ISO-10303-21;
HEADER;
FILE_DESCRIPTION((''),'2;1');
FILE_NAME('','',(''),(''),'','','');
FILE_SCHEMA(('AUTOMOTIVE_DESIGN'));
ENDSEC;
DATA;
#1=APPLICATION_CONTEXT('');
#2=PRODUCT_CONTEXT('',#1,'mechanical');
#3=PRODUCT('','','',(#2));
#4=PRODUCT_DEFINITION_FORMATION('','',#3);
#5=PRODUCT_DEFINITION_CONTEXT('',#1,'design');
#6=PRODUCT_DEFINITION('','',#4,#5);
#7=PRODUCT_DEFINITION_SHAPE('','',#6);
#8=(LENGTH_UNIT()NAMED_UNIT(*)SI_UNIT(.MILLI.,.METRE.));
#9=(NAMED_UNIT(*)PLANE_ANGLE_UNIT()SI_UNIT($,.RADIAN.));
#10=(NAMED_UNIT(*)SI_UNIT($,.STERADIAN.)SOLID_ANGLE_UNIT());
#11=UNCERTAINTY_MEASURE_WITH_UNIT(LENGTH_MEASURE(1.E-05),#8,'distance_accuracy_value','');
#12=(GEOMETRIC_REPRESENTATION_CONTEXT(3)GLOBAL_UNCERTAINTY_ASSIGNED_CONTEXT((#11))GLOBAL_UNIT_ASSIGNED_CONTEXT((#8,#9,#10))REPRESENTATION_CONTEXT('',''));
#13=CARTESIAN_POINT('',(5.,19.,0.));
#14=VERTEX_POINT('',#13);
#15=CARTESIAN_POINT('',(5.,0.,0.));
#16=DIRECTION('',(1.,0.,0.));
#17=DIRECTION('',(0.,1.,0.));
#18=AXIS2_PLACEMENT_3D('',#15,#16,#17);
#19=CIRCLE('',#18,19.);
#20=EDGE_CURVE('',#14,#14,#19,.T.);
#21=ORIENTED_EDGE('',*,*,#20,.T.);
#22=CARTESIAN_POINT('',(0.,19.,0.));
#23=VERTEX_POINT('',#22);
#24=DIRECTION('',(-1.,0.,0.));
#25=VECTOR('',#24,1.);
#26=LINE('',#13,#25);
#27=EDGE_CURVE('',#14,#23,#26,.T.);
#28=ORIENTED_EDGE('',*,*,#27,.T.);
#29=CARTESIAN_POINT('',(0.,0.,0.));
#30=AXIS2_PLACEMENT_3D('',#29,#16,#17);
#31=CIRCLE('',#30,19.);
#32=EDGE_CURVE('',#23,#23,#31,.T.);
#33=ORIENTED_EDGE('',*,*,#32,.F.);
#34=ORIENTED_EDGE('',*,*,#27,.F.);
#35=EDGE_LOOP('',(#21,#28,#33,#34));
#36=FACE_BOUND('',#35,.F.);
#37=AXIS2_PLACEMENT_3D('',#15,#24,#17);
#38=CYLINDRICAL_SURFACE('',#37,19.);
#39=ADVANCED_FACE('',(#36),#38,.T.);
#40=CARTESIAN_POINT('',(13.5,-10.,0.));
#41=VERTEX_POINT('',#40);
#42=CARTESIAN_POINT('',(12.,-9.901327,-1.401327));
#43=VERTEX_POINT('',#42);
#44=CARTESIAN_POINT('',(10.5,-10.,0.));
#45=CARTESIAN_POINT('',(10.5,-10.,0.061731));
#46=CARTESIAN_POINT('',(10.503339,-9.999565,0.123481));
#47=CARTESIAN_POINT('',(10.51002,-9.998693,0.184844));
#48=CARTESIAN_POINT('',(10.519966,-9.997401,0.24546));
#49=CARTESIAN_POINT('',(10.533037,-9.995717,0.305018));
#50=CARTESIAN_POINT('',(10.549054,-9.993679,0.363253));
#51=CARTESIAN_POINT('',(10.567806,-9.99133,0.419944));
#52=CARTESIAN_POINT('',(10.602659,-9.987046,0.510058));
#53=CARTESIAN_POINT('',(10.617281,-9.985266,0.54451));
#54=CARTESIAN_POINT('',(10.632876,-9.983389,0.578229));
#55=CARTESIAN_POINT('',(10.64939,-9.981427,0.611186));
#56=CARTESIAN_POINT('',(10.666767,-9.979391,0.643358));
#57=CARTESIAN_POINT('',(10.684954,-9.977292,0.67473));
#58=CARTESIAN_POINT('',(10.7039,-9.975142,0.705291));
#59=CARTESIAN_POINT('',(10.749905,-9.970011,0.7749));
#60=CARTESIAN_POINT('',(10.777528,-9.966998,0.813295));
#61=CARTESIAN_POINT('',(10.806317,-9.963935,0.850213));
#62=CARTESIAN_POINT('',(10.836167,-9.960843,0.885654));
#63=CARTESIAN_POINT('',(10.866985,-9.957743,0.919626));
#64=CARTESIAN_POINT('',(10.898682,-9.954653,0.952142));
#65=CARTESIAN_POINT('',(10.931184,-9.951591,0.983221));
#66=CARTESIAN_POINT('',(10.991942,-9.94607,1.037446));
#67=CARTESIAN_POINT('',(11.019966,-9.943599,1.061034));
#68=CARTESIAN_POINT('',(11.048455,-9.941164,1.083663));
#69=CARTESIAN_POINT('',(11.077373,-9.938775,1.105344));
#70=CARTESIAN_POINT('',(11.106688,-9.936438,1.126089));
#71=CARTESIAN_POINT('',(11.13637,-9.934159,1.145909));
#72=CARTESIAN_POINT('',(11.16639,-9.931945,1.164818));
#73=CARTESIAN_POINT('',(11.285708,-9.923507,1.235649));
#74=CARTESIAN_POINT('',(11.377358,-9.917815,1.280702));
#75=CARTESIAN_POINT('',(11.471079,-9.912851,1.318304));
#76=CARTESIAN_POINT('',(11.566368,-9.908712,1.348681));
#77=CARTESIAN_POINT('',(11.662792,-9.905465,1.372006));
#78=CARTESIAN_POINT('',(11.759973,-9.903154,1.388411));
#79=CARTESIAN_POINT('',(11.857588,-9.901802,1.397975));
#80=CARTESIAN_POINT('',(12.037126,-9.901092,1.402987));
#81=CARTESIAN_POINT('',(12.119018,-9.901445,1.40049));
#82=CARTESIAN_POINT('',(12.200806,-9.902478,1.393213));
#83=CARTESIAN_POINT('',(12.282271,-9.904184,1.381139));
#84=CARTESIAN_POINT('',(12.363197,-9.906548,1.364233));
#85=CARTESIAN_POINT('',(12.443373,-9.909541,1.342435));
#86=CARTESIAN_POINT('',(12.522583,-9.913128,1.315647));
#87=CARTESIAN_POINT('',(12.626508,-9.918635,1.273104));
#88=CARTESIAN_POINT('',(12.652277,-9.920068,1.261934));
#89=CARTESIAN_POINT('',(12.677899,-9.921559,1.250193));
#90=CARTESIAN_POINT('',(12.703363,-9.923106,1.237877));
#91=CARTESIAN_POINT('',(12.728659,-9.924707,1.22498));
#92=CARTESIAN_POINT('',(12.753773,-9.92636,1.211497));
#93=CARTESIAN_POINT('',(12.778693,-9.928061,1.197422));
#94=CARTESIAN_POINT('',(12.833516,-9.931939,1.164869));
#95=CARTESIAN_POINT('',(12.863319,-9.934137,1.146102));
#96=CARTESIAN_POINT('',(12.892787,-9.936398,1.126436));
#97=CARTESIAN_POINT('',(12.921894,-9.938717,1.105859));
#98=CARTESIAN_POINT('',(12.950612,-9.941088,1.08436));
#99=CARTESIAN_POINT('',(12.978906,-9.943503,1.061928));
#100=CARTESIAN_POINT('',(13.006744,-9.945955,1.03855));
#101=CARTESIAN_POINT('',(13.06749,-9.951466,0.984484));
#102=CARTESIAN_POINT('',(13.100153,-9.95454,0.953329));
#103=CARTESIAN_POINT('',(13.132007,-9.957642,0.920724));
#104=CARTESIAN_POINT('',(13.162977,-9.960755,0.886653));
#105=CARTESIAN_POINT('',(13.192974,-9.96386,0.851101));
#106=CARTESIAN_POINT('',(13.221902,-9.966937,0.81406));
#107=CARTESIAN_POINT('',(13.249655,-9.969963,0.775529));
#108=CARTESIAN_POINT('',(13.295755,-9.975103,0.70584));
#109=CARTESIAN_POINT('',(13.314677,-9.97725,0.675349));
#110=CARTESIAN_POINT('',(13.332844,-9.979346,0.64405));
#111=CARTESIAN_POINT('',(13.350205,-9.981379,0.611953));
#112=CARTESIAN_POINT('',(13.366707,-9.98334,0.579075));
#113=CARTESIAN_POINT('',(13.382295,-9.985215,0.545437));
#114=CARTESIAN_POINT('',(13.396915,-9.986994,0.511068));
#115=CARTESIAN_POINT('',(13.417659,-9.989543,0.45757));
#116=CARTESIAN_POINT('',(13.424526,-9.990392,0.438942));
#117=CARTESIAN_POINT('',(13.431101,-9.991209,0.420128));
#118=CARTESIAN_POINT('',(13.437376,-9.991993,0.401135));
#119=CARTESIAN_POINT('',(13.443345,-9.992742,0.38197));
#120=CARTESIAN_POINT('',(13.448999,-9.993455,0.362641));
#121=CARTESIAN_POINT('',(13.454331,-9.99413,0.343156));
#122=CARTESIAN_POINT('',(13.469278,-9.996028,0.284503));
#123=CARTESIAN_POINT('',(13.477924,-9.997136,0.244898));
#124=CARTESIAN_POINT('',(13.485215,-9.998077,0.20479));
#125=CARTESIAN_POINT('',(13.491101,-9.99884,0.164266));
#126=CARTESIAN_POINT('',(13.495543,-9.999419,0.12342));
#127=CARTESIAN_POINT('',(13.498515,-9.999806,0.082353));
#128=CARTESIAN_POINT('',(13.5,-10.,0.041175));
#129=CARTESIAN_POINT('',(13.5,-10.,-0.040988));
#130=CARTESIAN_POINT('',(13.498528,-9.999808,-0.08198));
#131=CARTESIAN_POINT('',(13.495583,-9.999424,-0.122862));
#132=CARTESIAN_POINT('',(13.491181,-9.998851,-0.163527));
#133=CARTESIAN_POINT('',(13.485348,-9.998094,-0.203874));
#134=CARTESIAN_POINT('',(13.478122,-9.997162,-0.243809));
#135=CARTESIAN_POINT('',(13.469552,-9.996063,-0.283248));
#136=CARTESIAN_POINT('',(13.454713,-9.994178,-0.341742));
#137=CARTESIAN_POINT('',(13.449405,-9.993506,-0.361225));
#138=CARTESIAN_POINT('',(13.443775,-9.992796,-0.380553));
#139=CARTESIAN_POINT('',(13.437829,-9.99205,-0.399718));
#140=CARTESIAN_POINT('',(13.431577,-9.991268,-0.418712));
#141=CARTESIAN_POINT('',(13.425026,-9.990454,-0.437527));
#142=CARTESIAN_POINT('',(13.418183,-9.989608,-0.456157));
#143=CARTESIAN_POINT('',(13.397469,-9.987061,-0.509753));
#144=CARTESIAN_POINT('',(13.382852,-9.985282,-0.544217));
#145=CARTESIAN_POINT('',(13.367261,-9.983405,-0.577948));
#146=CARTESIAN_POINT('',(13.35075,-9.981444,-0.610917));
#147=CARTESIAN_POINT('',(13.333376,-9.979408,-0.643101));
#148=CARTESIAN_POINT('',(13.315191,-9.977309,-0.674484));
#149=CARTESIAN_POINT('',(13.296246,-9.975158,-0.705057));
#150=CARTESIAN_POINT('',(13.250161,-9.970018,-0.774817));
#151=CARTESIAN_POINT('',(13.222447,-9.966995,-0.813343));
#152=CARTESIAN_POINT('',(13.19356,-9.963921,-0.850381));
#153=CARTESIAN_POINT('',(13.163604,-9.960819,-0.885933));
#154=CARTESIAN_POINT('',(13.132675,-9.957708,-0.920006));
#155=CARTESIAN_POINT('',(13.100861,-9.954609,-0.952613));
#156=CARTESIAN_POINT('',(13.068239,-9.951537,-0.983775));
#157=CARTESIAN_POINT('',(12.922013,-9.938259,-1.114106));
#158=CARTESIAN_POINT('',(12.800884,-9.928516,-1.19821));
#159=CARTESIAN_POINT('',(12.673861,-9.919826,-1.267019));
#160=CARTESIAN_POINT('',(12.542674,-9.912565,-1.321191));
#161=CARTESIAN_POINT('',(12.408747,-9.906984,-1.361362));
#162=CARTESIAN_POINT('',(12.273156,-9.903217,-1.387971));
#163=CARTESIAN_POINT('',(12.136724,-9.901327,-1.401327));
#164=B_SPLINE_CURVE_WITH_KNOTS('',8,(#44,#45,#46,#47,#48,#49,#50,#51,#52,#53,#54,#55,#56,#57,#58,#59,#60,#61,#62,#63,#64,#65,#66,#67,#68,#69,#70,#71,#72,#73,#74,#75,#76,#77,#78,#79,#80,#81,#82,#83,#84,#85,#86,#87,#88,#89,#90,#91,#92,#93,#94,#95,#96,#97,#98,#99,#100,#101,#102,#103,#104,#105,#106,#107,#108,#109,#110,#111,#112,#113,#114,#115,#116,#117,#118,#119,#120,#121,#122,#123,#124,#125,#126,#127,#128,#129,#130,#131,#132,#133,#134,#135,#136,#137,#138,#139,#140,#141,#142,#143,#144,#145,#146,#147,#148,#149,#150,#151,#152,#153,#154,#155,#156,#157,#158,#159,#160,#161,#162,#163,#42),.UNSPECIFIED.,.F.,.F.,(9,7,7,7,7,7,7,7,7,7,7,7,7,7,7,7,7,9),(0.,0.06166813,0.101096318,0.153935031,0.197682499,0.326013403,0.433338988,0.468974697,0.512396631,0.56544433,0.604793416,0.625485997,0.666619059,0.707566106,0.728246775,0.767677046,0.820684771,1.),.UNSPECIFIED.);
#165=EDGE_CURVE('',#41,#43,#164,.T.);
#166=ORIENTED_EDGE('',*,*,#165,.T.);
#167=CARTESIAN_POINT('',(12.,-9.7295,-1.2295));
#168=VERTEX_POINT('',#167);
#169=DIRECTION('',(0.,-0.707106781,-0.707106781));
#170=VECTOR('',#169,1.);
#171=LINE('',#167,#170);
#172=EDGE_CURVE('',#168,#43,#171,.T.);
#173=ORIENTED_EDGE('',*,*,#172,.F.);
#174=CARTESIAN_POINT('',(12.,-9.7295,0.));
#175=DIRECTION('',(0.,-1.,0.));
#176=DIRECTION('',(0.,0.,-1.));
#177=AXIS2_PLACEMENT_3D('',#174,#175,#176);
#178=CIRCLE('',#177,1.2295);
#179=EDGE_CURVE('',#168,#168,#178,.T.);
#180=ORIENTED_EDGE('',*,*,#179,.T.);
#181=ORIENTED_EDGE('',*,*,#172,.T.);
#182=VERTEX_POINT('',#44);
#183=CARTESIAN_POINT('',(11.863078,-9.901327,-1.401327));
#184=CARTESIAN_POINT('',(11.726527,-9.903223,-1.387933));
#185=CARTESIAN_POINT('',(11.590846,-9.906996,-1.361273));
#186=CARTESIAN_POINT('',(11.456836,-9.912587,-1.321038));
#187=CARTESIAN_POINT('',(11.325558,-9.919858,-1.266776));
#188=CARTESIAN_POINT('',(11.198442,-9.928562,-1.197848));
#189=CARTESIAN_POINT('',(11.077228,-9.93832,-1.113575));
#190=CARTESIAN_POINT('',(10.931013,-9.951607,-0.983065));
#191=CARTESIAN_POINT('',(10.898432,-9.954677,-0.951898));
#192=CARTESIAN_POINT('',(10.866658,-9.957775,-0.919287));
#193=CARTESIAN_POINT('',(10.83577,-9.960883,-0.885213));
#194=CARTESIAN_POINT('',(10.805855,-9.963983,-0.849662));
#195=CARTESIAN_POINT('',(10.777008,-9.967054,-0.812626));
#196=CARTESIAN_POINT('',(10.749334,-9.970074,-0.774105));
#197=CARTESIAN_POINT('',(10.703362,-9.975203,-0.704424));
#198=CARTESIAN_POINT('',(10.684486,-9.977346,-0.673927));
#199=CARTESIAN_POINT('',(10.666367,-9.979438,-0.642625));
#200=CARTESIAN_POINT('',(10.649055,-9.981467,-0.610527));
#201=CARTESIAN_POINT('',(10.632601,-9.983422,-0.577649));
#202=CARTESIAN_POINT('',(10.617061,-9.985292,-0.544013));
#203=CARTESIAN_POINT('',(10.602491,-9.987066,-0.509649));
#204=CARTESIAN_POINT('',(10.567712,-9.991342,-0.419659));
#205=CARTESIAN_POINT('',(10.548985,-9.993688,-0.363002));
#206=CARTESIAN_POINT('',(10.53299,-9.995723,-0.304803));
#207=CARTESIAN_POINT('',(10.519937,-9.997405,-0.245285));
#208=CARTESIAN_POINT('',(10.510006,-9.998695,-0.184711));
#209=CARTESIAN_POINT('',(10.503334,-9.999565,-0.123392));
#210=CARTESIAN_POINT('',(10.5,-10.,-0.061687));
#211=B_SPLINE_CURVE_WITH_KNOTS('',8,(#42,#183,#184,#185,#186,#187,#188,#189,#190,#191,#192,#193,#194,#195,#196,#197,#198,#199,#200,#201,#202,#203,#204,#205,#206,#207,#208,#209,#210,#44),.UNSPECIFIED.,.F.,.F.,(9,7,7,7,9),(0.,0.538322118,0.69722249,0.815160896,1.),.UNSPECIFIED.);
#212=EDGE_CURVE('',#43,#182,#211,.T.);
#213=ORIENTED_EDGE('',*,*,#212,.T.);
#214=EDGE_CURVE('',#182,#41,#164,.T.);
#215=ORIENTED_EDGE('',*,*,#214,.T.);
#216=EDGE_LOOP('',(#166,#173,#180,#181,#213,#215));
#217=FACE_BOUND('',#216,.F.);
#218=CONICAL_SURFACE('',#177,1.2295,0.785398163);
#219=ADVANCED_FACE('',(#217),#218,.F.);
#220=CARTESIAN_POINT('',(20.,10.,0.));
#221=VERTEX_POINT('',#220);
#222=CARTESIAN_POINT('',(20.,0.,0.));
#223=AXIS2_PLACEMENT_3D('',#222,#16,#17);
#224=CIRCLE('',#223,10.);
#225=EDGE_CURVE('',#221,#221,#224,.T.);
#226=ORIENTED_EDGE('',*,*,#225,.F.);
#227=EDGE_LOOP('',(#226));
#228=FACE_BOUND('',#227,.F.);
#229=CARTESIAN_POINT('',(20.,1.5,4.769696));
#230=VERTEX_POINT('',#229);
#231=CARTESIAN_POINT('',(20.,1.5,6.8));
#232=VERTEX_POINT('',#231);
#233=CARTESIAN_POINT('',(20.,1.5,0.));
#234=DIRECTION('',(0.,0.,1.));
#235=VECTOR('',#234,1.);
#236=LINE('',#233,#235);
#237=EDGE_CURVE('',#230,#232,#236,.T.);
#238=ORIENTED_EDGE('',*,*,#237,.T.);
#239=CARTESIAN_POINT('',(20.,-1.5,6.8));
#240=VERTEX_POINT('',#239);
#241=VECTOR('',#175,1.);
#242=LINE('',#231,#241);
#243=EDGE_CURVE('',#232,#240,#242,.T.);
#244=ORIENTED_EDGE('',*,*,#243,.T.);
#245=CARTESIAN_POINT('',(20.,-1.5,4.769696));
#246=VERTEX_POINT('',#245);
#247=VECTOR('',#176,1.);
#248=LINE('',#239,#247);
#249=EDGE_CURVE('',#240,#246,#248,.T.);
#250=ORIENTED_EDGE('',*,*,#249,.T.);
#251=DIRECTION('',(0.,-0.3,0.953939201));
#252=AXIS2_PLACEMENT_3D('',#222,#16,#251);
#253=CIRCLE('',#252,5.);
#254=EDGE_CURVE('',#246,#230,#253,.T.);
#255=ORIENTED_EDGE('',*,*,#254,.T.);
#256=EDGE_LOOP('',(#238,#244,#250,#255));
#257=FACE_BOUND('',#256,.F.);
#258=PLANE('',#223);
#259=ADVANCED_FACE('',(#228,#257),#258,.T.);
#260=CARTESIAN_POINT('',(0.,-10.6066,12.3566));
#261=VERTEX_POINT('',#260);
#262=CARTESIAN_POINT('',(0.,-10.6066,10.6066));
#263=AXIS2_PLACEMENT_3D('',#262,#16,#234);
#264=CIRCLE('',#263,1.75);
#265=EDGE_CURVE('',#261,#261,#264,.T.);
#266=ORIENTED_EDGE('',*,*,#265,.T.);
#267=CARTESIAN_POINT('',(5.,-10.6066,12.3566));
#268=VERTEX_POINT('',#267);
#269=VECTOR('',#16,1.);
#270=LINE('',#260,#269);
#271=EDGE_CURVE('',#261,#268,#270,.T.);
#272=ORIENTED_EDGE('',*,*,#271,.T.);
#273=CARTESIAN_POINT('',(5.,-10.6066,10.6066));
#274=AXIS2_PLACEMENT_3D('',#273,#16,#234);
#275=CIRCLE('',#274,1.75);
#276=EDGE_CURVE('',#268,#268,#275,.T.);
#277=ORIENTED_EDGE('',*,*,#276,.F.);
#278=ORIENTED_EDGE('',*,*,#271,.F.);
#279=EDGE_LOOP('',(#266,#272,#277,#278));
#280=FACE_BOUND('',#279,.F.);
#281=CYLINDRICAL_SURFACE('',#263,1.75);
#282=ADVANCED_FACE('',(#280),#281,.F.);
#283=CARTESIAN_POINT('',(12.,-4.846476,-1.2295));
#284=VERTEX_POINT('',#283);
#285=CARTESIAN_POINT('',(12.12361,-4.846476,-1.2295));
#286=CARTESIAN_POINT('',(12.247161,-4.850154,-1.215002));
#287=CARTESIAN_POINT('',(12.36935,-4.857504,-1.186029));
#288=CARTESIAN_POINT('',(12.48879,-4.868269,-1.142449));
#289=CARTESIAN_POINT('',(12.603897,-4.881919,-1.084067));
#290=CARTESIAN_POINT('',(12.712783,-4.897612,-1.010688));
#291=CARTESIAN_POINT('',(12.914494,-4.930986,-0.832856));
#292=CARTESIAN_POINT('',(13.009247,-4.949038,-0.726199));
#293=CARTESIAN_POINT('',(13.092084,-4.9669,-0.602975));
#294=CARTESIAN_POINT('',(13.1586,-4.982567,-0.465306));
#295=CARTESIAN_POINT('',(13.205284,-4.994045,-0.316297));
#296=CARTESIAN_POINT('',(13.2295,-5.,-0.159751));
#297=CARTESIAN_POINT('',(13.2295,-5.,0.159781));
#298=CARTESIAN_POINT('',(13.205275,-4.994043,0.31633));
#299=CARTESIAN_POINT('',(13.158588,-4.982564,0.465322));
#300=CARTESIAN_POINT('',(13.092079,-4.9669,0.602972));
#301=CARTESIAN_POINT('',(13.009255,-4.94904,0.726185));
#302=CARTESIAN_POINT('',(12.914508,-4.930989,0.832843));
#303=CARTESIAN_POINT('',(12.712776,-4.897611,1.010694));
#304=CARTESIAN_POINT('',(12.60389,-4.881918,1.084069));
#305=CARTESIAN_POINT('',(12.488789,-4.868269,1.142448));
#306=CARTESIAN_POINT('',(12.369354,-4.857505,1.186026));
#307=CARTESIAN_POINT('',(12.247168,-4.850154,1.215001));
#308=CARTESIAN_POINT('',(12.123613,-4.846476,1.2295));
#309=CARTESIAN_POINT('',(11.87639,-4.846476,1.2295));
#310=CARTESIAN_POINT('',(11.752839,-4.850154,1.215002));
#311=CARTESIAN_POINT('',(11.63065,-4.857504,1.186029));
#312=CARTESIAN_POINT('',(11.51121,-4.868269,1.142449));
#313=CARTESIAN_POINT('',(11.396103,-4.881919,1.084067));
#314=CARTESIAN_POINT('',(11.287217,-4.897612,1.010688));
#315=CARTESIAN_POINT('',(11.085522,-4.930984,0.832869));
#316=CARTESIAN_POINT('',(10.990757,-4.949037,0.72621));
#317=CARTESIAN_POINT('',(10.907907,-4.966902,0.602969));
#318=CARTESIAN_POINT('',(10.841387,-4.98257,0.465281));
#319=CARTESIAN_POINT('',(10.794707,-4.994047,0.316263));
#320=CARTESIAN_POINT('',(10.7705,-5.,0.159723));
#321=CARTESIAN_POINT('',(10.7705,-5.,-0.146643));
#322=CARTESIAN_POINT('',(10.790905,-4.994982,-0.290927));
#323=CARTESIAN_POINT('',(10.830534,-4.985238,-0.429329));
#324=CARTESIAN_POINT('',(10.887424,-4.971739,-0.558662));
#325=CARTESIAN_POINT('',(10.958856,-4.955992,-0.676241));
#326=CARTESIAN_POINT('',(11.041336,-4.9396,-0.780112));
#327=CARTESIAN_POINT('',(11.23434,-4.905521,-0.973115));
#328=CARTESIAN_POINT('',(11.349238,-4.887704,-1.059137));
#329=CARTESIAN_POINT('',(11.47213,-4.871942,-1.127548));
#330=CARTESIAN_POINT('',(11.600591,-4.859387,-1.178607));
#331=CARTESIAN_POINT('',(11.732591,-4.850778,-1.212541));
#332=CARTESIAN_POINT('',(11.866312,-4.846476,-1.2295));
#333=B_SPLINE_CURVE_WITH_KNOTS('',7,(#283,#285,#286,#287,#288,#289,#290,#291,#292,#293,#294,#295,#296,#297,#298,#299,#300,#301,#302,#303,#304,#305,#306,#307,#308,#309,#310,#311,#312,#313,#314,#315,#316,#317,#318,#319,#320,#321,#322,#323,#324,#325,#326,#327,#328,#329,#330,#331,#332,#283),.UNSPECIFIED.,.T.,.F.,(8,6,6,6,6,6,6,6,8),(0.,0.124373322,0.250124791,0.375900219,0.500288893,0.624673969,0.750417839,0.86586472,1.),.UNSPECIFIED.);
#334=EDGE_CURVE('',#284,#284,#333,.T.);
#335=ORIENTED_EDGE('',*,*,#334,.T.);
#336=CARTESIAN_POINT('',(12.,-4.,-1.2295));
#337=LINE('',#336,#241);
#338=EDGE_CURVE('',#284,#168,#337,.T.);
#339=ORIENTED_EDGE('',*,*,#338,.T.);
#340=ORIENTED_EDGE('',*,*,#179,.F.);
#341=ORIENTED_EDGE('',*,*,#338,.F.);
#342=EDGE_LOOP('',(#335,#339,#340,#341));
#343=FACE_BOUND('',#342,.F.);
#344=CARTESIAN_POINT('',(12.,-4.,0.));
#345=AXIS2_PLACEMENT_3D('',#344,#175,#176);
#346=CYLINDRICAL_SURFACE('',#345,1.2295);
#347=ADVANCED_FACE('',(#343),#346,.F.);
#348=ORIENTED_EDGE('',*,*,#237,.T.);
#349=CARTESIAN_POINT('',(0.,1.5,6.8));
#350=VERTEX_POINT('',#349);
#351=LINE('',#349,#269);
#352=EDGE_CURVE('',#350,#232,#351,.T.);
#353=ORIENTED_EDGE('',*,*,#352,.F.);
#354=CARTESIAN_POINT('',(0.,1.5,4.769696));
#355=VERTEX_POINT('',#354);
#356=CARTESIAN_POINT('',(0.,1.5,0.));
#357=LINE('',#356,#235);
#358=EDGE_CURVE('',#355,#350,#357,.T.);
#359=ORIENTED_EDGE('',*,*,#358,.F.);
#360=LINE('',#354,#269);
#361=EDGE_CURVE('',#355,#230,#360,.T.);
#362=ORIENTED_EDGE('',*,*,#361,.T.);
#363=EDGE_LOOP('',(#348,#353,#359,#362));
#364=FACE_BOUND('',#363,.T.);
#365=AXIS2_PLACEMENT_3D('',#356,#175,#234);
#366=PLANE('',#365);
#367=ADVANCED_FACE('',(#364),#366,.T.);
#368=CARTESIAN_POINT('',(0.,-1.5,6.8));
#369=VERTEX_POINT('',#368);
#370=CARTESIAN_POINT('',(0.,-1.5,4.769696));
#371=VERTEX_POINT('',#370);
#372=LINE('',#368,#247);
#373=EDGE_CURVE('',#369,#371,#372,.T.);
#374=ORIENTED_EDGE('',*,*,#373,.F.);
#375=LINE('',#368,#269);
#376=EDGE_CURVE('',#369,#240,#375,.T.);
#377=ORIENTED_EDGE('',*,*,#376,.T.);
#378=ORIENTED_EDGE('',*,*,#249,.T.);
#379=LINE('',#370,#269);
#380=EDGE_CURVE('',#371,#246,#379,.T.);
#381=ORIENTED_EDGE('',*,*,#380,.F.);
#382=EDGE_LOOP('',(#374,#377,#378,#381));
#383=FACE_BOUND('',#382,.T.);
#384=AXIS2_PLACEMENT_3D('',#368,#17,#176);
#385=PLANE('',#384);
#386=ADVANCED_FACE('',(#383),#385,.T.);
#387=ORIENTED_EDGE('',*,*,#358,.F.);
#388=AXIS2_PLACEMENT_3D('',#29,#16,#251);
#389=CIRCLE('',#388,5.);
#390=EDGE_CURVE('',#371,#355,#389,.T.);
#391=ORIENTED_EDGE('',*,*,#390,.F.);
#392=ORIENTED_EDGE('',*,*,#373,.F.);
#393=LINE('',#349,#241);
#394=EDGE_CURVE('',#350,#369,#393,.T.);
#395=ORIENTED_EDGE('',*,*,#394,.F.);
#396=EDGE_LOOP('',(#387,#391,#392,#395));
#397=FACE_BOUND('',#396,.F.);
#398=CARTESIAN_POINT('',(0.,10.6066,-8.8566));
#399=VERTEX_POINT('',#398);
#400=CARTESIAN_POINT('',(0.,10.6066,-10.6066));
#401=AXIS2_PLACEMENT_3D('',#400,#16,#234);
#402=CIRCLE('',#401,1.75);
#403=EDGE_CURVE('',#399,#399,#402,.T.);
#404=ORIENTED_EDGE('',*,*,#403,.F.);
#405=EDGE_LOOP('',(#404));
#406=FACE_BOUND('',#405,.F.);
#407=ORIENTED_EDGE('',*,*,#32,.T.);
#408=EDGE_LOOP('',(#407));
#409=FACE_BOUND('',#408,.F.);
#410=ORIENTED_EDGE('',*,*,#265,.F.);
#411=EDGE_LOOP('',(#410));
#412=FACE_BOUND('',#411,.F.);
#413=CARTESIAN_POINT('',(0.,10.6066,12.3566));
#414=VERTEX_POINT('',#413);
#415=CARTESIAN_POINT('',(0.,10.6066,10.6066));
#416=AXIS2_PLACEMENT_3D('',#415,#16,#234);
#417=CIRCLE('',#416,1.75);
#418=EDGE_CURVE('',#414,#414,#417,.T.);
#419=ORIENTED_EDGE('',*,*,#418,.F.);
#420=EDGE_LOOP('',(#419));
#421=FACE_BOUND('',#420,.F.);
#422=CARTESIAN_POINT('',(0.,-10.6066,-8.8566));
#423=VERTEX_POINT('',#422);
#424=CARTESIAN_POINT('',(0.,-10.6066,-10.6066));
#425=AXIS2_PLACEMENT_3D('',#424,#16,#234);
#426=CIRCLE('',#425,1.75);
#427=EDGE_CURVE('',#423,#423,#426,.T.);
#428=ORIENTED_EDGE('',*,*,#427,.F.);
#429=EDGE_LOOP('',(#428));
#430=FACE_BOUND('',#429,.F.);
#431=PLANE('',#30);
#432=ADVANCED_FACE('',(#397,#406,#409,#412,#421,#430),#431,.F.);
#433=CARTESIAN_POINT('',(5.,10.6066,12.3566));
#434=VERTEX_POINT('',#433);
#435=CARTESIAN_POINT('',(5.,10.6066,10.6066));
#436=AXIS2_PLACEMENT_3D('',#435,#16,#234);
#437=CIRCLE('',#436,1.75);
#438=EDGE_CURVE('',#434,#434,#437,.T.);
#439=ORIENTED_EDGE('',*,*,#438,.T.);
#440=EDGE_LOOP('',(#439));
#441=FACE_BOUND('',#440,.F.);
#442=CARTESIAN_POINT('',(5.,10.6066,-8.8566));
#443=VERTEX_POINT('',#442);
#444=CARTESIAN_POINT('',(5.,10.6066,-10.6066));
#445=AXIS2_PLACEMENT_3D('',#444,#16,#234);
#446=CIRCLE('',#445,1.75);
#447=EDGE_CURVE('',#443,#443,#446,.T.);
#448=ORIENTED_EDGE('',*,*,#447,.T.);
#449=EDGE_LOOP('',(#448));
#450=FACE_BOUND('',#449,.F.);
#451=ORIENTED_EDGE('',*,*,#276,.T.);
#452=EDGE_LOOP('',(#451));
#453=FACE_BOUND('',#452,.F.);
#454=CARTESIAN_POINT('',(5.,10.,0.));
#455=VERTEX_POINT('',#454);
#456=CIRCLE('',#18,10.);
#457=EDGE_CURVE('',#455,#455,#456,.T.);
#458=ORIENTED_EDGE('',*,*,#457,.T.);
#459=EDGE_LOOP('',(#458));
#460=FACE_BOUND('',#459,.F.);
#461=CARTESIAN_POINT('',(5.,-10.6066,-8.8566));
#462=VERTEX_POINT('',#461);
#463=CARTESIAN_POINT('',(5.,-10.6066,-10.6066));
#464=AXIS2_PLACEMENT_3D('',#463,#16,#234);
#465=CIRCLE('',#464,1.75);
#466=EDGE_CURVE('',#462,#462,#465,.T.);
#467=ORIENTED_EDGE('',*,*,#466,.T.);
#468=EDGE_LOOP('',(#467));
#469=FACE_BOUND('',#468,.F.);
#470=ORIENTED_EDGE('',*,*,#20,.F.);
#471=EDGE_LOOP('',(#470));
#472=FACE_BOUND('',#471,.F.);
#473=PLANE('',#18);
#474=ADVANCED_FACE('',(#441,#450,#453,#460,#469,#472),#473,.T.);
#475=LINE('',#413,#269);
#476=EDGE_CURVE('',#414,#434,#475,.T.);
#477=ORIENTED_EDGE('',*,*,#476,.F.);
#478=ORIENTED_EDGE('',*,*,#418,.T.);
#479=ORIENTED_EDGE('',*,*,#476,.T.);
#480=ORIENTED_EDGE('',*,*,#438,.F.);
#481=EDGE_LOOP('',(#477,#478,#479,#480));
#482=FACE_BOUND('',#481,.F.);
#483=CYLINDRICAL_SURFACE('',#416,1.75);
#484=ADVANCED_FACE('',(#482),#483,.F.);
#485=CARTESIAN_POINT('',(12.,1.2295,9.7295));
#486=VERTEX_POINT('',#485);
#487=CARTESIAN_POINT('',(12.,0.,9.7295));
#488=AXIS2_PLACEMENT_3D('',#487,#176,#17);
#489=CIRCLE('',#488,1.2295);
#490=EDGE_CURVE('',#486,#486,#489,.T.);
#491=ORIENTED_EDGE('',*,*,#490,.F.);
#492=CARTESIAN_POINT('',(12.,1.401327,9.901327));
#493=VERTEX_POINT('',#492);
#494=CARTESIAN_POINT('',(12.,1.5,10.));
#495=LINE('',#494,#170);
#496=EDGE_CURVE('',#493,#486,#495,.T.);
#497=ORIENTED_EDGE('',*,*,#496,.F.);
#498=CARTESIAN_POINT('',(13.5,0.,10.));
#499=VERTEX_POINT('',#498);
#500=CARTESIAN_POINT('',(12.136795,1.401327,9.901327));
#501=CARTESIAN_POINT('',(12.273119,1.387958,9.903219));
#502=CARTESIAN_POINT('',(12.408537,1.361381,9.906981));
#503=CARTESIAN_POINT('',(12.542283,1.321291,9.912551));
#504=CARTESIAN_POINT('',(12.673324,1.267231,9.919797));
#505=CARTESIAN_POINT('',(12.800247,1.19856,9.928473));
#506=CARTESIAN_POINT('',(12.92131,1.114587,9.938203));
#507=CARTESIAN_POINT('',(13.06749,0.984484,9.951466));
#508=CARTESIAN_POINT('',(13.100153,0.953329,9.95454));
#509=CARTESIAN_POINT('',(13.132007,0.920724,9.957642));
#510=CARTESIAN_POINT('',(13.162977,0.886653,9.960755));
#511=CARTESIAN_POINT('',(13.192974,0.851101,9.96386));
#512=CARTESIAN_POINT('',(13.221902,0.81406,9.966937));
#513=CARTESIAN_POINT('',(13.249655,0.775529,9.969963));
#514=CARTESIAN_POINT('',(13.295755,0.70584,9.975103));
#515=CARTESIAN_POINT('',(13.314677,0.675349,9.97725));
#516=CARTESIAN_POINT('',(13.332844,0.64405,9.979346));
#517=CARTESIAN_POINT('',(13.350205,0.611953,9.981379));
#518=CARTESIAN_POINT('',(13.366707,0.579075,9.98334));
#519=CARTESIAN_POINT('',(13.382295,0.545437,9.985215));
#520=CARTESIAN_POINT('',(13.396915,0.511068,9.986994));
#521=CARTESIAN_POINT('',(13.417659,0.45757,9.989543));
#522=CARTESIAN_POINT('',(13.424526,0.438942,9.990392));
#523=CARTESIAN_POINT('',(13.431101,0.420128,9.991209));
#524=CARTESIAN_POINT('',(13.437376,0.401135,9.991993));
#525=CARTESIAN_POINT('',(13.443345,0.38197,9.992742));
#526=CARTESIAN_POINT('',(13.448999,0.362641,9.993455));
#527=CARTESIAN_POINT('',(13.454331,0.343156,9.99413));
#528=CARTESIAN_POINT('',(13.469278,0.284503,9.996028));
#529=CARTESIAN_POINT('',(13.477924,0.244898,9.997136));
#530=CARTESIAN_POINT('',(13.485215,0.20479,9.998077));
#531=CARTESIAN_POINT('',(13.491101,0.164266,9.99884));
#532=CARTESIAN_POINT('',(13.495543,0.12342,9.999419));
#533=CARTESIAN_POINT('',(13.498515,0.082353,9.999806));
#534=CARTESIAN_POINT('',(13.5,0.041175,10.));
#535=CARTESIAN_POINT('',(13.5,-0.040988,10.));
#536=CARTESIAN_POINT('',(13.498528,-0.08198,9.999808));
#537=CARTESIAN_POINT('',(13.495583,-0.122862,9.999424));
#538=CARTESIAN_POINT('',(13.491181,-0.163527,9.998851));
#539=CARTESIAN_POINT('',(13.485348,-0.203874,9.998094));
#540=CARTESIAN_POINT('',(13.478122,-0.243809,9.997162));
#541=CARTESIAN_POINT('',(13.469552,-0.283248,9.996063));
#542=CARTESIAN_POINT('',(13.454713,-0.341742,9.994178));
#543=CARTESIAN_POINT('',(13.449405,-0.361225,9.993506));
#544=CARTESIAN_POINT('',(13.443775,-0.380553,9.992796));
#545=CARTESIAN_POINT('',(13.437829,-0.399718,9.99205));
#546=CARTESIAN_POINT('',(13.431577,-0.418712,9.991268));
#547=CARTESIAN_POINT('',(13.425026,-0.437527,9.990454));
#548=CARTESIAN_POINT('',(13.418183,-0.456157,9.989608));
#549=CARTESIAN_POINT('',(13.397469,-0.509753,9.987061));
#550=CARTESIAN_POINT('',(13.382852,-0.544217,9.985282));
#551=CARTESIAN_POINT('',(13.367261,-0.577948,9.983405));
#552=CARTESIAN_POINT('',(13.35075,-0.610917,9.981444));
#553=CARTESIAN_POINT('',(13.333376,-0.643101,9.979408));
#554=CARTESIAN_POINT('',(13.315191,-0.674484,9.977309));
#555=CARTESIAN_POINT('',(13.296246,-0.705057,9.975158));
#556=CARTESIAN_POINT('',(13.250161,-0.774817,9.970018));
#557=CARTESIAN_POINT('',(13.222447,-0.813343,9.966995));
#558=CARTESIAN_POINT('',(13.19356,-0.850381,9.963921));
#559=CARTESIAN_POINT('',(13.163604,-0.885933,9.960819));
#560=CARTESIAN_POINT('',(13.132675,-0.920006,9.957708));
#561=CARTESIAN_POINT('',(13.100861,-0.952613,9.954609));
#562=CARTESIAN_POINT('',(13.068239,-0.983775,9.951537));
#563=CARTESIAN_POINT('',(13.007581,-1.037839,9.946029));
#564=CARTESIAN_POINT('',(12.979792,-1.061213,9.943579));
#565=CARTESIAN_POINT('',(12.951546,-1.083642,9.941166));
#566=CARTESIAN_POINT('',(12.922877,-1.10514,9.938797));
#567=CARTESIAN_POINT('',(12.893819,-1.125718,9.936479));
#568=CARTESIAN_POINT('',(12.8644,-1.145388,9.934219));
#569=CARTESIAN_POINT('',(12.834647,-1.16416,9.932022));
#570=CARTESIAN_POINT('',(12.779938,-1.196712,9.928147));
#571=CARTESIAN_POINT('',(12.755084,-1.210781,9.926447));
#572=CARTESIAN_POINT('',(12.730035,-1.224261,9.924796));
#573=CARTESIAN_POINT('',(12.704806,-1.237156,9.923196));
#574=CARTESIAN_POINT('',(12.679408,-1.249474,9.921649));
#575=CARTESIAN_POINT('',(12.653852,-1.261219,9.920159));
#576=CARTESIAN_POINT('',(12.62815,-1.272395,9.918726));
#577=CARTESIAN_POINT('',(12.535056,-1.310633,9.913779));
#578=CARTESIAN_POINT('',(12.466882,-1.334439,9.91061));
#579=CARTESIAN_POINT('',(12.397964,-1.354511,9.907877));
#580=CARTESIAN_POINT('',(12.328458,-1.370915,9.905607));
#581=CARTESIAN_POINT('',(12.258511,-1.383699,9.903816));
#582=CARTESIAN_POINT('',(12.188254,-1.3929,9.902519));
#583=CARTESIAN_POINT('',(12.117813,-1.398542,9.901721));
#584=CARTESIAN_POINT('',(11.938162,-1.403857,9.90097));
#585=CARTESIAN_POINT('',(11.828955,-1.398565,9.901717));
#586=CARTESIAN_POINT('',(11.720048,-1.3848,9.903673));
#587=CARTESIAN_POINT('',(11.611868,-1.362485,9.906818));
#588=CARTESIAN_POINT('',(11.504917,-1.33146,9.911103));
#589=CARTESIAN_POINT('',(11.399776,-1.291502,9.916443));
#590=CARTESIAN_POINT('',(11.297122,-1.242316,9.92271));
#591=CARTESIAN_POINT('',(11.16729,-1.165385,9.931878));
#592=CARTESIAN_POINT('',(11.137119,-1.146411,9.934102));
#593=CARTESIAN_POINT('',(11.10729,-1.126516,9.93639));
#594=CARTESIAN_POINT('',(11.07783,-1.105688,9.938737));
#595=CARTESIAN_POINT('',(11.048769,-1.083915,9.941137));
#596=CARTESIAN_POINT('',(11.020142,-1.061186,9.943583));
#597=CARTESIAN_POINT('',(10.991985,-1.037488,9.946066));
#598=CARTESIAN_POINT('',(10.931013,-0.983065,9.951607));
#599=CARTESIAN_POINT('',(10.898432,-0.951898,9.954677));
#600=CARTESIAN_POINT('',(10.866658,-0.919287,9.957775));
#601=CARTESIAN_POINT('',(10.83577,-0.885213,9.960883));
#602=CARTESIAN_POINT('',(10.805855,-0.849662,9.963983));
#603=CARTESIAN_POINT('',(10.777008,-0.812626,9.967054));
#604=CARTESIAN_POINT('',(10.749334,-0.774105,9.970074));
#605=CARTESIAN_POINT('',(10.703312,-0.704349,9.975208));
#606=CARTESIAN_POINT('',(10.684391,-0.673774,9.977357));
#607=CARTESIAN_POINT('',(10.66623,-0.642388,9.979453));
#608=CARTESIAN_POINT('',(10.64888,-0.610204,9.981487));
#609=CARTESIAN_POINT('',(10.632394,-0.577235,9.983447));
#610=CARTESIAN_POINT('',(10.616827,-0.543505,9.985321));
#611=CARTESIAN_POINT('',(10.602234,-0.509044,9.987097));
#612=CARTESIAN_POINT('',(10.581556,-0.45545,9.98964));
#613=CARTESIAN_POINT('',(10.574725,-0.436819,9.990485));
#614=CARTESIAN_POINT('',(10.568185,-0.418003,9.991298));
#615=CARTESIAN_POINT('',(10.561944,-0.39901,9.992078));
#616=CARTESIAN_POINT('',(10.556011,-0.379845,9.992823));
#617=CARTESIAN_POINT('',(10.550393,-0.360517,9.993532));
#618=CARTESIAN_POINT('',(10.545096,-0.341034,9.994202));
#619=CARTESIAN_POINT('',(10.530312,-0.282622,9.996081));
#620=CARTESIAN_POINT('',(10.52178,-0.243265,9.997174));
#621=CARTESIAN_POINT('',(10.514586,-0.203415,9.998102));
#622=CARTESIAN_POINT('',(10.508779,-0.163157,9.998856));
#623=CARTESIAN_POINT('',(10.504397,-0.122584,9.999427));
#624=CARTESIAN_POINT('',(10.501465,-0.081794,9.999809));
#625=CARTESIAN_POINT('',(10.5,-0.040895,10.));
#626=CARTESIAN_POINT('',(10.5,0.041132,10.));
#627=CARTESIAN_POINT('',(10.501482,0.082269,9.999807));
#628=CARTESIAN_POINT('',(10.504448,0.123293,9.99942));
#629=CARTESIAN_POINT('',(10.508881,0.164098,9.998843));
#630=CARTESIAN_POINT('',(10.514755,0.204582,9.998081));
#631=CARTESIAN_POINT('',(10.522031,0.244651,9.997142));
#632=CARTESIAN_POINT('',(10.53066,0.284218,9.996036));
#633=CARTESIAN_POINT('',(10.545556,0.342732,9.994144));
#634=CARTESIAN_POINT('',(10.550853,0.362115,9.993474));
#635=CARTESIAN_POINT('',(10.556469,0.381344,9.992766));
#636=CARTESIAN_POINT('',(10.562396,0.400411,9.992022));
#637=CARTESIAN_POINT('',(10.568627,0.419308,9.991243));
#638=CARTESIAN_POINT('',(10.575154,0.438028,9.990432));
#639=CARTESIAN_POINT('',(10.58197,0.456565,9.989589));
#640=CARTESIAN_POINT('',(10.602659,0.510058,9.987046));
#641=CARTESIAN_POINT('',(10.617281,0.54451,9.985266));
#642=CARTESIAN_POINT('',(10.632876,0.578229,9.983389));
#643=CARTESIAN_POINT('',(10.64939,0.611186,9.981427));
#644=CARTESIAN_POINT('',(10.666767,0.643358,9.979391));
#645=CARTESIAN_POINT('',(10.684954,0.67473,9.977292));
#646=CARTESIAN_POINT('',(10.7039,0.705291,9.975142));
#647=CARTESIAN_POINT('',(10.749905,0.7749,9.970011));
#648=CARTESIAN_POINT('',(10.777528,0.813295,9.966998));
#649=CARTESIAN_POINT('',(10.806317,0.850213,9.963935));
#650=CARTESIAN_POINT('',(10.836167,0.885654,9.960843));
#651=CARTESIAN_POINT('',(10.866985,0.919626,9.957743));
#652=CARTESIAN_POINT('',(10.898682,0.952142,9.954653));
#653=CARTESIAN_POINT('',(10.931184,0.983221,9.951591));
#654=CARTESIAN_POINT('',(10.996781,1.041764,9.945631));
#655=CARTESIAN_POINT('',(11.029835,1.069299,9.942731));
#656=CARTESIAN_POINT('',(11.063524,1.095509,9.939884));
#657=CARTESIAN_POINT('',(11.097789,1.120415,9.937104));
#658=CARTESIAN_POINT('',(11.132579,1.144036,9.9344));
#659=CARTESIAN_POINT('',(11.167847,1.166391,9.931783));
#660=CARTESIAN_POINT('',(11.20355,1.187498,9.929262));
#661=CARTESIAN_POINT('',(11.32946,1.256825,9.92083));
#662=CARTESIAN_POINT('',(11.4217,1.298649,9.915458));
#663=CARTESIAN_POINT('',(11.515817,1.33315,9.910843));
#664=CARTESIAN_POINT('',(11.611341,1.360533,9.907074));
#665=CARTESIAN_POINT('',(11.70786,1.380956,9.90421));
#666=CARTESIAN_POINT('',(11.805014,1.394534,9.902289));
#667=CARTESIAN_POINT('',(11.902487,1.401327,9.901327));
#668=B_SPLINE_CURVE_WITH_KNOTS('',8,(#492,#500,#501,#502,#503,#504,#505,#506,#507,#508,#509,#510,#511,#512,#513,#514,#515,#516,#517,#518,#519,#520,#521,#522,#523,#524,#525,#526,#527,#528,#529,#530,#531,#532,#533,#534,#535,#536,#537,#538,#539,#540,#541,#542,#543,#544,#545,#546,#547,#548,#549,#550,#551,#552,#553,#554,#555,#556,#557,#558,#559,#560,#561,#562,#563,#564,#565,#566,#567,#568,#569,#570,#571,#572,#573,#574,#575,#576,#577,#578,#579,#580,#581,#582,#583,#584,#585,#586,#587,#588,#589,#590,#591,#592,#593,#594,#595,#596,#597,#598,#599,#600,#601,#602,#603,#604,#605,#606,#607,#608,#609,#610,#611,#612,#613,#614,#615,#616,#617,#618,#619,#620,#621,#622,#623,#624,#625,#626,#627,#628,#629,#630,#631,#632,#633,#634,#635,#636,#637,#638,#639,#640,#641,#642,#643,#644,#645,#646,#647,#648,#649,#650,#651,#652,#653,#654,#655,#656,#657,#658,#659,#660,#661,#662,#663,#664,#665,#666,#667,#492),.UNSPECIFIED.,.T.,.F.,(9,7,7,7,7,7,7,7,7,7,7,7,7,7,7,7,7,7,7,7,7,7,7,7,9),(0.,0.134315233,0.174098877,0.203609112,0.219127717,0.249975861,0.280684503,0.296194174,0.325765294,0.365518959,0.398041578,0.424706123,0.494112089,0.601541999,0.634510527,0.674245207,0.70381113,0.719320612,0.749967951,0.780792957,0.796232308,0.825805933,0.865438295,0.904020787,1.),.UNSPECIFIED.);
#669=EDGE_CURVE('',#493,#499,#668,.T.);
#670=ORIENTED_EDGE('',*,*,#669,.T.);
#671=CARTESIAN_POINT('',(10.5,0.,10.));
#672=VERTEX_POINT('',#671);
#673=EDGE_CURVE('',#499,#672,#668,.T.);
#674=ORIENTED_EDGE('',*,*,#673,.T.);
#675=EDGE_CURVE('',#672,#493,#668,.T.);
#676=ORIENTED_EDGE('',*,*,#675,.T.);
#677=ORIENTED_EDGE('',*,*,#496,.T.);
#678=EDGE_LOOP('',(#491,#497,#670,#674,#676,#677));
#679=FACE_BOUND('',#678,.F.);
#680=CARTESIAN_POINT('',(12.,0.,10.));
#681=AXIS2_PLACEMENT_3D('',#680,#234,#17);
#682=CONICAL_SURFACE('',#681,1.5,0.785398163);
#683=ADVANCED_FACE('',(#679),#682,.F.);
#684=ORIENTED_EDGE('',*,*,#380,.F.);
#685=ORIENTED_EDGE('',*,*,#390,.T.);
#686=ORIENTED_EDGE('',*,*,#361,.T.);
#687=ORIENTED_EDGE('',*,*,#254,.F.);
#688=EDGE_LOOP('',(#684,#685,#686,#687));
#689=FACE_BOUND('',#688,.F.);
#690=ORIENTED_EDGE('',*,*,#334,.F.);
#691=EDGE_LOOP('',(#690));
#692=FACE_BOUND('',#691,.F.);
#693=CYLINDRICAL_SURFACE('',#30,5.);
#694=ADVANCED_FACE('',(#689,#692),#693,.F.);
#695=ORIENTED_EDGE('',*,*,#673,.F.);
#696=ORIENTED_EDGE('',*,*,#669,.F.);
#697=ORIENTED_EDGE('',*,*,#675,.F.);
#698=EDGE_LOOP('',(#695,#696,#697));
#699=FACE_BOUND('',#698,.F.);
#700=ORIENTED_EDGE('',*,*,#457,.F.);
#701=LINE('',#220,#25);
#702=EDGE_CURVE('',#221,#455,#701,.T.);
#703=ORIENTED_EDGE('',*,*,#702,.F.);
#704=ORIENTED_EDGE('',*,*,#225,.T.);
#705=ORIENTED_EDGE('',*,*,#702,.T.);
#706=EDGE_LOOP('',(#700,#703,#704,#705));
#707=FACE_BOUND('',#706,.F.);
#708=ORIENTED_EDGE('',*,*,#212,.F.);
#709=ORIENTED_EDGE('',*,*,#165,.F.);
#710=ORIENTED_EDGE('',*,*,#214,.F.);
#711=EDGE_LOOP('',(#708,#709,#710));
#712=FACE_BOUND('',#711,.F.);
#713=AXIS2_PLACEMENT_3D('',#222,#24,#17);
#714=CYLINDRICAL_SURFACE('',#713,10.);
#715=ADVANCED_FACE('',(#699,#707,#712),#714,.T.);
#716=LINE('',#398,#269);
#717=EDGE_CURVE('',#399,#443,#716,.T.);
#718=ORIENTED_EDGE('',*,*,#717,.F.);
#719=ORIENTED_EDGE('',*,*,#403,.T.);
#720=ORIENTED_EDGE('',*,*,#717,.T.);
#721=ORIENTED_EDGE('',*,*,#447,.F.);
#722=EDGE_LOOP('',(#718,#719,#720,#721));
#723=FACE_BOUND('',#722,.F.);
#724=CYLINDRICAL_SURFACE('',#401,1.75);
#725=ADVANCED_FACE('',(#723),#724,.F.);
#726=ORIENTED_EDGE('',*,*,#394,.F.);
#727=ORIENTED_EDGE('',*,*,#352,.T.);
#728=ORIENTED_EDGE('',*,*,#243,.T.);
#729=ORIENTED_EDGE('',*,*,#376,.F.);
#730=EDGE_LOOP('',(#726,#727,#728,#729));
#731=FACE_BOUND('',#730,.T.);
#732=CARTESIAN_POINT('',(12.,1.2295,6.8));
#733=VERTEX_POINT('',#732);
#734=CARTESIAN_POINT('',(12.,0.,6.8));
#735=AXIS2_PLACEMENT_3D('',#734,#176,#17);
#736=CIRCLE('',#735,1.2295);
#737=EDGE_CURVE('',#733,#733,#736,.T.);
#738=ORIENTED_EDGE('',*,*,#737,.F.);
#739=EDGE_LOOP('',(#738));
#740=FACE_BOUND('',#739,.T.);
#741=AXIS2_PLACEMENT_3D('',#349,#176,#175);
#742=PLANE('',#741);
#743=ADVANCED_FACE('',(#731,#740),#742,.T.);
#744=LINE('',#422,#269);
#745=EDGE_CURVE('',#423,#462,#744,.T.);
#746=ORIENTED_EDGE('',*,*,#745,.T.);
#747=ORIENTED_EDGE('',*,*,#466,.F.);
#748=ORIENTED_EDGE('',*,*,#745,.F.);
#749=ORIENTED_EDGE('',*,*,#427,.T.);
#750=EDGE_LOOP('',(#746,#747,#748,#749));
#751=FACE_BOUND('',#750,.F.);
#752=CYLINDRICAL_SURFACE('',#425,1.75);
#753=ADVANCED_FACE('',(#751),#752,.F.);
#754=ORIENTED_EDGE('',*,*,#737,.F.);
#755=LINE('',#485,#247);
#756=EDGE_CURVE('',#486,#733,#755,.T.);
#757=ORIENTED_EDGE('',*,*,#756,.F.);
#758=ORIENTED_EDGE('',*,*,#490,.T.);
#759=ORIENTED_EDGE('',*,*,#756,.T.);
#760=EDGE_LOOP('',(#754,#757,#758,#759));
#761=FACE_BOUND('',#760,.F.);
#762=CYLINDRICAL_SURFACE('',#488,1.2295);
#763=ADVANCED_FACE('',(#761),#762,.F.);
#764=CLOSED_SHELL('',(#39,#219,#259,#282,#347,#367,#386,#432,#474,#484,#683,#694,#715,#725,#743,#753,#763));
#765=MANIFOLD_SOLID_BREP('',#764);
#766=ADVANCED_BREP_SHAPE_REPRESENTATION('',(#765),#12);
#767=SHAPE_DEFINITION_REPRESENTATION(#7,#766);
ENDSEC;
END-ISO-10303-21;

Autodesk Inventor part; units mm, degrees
sketch "Sketch_1" plane through (0, 0, 0) normal (0, 0, 1) x (1, 0, 0)
  line L0 (20, 0) -> (0, 0)
  line L1 (0, 5) -> (20, 5)
  line L2 (20, 5) -> (20, 10)
  line L3 (20, 10) -> (5, 10)
  line L4 (5, 10) -> (5, 19)
  line L5 (5, 19) -> (0, 19)
  line L6 (0, 19) -> (0, 5)
revolve "Revolution1" add sketch "Sketch_1" angle 360 about axis through (20, 0, 0) along (1, 0, 0)
sketch "Sketch2" plane through (0, 0, 0) normal (-1, 0, 0) x (0, 0, 1)
  point P0 (-10.6066, 10.6066)
hole "Hole1" at (0, 10.6066, -10.6066) direction (1, 0, 0) diameter 3.5 depth 5
pattern_linear "Rectangular Pattern1" count 2 spacing 21.2132 along (0, 0, 1) count 2 spacing 21.2132 along (0, -1, 0) of "Hole1"
sketch "Sketch_4" plane through (12, 0, 0) normal (1, 0, 0) x (0, 0, -1)
  line L0 (0, -10) -> (0, -4)
  line L1 (0, -4) -> (1.2295, -4)
  line L2 (1.2295, -4) -> (1.2295, -9.7295)
  line L3 (1.2295, -9.7295) -> (1.5, -10)
  line L4 (1.5, -10) -> (0, -10)
  line L5 (0, -10) -> (0, -4)
revolve "Revolution2" cut sketch "Sketch_4" angle 360 about axis through (12, -10, 0) along (0, -1, 0)
thread "Thread1" size "M3x0.5" class "6H" standard "ISO Metric profile" full length
sketch "Sketch_8" plane through (0, 0, 0) normal (1, 0, 0) x (0, 1, 0)
  line L0 (1.5, 6.8) -> (-1.5, 6.8)
  line L1 (-1.5, 6.8) -> (-1.5, 0)
  line L2 (-1.5, 0) -> (1.5, 0)
  line L3 (1.5, 0) -> (1.5, 6.8)
extrude "Extrusion1" cut sketch "Sketch_8" along normal blind 20
sketch "Sketch_5" plane through (12, 0, 0) normal (1, 0, 0) x (0, 0, -1)
  line L0 (-5, 0) -> (-10, 0)
  line L1 (-10, 0) -> (-10, 1.5)
  line L2 (-10, 1.5) -> (-9.7295, 1.2295)
  line L3 (-9.7295, 1.2295) -> (-5, 1.2295)
  line L4 (-5, 1.2295) -> (-5, 0)
  line L5 (-5, 0) -> (-10, 0)
revolve "Revolution3" cut sketch "Sketch_5" angle 360 about axis through (12, 0, 5) along (0, 0, -1)
thread "Thread2" size "M3x0.5" class "6H" standard "ISO Metric profile" length 2.9295
ref_plane "to_screw1_XY" through (12, 0, 6.8) normal (0, 0, 1) x (1, 0, 0)
ref_plane "to_screw1_YZ" through (12, 0, 6.8) normal (1, 0, 0) x (0, 1, 0)
ref_plane "to_screw1_ZX" through (12, 0, 6.8) normal (0, 1, 0) x (0, 0, 1)
ref_plane "to_screw2_XY" through (12, -5, 0) normal (0, -1, 0) x (1, 0, 0)
ref_plane "to_screw2_YZ" through (12, -5, 0) normal (1, 0, 0) x (0, 0, 1)
ref_plane "to_screw2_ZX" through (12, -5, 0) normal (0, 0, 1) x (0, -1, 0)
properties part number "STHRANG10-MB_ss"
